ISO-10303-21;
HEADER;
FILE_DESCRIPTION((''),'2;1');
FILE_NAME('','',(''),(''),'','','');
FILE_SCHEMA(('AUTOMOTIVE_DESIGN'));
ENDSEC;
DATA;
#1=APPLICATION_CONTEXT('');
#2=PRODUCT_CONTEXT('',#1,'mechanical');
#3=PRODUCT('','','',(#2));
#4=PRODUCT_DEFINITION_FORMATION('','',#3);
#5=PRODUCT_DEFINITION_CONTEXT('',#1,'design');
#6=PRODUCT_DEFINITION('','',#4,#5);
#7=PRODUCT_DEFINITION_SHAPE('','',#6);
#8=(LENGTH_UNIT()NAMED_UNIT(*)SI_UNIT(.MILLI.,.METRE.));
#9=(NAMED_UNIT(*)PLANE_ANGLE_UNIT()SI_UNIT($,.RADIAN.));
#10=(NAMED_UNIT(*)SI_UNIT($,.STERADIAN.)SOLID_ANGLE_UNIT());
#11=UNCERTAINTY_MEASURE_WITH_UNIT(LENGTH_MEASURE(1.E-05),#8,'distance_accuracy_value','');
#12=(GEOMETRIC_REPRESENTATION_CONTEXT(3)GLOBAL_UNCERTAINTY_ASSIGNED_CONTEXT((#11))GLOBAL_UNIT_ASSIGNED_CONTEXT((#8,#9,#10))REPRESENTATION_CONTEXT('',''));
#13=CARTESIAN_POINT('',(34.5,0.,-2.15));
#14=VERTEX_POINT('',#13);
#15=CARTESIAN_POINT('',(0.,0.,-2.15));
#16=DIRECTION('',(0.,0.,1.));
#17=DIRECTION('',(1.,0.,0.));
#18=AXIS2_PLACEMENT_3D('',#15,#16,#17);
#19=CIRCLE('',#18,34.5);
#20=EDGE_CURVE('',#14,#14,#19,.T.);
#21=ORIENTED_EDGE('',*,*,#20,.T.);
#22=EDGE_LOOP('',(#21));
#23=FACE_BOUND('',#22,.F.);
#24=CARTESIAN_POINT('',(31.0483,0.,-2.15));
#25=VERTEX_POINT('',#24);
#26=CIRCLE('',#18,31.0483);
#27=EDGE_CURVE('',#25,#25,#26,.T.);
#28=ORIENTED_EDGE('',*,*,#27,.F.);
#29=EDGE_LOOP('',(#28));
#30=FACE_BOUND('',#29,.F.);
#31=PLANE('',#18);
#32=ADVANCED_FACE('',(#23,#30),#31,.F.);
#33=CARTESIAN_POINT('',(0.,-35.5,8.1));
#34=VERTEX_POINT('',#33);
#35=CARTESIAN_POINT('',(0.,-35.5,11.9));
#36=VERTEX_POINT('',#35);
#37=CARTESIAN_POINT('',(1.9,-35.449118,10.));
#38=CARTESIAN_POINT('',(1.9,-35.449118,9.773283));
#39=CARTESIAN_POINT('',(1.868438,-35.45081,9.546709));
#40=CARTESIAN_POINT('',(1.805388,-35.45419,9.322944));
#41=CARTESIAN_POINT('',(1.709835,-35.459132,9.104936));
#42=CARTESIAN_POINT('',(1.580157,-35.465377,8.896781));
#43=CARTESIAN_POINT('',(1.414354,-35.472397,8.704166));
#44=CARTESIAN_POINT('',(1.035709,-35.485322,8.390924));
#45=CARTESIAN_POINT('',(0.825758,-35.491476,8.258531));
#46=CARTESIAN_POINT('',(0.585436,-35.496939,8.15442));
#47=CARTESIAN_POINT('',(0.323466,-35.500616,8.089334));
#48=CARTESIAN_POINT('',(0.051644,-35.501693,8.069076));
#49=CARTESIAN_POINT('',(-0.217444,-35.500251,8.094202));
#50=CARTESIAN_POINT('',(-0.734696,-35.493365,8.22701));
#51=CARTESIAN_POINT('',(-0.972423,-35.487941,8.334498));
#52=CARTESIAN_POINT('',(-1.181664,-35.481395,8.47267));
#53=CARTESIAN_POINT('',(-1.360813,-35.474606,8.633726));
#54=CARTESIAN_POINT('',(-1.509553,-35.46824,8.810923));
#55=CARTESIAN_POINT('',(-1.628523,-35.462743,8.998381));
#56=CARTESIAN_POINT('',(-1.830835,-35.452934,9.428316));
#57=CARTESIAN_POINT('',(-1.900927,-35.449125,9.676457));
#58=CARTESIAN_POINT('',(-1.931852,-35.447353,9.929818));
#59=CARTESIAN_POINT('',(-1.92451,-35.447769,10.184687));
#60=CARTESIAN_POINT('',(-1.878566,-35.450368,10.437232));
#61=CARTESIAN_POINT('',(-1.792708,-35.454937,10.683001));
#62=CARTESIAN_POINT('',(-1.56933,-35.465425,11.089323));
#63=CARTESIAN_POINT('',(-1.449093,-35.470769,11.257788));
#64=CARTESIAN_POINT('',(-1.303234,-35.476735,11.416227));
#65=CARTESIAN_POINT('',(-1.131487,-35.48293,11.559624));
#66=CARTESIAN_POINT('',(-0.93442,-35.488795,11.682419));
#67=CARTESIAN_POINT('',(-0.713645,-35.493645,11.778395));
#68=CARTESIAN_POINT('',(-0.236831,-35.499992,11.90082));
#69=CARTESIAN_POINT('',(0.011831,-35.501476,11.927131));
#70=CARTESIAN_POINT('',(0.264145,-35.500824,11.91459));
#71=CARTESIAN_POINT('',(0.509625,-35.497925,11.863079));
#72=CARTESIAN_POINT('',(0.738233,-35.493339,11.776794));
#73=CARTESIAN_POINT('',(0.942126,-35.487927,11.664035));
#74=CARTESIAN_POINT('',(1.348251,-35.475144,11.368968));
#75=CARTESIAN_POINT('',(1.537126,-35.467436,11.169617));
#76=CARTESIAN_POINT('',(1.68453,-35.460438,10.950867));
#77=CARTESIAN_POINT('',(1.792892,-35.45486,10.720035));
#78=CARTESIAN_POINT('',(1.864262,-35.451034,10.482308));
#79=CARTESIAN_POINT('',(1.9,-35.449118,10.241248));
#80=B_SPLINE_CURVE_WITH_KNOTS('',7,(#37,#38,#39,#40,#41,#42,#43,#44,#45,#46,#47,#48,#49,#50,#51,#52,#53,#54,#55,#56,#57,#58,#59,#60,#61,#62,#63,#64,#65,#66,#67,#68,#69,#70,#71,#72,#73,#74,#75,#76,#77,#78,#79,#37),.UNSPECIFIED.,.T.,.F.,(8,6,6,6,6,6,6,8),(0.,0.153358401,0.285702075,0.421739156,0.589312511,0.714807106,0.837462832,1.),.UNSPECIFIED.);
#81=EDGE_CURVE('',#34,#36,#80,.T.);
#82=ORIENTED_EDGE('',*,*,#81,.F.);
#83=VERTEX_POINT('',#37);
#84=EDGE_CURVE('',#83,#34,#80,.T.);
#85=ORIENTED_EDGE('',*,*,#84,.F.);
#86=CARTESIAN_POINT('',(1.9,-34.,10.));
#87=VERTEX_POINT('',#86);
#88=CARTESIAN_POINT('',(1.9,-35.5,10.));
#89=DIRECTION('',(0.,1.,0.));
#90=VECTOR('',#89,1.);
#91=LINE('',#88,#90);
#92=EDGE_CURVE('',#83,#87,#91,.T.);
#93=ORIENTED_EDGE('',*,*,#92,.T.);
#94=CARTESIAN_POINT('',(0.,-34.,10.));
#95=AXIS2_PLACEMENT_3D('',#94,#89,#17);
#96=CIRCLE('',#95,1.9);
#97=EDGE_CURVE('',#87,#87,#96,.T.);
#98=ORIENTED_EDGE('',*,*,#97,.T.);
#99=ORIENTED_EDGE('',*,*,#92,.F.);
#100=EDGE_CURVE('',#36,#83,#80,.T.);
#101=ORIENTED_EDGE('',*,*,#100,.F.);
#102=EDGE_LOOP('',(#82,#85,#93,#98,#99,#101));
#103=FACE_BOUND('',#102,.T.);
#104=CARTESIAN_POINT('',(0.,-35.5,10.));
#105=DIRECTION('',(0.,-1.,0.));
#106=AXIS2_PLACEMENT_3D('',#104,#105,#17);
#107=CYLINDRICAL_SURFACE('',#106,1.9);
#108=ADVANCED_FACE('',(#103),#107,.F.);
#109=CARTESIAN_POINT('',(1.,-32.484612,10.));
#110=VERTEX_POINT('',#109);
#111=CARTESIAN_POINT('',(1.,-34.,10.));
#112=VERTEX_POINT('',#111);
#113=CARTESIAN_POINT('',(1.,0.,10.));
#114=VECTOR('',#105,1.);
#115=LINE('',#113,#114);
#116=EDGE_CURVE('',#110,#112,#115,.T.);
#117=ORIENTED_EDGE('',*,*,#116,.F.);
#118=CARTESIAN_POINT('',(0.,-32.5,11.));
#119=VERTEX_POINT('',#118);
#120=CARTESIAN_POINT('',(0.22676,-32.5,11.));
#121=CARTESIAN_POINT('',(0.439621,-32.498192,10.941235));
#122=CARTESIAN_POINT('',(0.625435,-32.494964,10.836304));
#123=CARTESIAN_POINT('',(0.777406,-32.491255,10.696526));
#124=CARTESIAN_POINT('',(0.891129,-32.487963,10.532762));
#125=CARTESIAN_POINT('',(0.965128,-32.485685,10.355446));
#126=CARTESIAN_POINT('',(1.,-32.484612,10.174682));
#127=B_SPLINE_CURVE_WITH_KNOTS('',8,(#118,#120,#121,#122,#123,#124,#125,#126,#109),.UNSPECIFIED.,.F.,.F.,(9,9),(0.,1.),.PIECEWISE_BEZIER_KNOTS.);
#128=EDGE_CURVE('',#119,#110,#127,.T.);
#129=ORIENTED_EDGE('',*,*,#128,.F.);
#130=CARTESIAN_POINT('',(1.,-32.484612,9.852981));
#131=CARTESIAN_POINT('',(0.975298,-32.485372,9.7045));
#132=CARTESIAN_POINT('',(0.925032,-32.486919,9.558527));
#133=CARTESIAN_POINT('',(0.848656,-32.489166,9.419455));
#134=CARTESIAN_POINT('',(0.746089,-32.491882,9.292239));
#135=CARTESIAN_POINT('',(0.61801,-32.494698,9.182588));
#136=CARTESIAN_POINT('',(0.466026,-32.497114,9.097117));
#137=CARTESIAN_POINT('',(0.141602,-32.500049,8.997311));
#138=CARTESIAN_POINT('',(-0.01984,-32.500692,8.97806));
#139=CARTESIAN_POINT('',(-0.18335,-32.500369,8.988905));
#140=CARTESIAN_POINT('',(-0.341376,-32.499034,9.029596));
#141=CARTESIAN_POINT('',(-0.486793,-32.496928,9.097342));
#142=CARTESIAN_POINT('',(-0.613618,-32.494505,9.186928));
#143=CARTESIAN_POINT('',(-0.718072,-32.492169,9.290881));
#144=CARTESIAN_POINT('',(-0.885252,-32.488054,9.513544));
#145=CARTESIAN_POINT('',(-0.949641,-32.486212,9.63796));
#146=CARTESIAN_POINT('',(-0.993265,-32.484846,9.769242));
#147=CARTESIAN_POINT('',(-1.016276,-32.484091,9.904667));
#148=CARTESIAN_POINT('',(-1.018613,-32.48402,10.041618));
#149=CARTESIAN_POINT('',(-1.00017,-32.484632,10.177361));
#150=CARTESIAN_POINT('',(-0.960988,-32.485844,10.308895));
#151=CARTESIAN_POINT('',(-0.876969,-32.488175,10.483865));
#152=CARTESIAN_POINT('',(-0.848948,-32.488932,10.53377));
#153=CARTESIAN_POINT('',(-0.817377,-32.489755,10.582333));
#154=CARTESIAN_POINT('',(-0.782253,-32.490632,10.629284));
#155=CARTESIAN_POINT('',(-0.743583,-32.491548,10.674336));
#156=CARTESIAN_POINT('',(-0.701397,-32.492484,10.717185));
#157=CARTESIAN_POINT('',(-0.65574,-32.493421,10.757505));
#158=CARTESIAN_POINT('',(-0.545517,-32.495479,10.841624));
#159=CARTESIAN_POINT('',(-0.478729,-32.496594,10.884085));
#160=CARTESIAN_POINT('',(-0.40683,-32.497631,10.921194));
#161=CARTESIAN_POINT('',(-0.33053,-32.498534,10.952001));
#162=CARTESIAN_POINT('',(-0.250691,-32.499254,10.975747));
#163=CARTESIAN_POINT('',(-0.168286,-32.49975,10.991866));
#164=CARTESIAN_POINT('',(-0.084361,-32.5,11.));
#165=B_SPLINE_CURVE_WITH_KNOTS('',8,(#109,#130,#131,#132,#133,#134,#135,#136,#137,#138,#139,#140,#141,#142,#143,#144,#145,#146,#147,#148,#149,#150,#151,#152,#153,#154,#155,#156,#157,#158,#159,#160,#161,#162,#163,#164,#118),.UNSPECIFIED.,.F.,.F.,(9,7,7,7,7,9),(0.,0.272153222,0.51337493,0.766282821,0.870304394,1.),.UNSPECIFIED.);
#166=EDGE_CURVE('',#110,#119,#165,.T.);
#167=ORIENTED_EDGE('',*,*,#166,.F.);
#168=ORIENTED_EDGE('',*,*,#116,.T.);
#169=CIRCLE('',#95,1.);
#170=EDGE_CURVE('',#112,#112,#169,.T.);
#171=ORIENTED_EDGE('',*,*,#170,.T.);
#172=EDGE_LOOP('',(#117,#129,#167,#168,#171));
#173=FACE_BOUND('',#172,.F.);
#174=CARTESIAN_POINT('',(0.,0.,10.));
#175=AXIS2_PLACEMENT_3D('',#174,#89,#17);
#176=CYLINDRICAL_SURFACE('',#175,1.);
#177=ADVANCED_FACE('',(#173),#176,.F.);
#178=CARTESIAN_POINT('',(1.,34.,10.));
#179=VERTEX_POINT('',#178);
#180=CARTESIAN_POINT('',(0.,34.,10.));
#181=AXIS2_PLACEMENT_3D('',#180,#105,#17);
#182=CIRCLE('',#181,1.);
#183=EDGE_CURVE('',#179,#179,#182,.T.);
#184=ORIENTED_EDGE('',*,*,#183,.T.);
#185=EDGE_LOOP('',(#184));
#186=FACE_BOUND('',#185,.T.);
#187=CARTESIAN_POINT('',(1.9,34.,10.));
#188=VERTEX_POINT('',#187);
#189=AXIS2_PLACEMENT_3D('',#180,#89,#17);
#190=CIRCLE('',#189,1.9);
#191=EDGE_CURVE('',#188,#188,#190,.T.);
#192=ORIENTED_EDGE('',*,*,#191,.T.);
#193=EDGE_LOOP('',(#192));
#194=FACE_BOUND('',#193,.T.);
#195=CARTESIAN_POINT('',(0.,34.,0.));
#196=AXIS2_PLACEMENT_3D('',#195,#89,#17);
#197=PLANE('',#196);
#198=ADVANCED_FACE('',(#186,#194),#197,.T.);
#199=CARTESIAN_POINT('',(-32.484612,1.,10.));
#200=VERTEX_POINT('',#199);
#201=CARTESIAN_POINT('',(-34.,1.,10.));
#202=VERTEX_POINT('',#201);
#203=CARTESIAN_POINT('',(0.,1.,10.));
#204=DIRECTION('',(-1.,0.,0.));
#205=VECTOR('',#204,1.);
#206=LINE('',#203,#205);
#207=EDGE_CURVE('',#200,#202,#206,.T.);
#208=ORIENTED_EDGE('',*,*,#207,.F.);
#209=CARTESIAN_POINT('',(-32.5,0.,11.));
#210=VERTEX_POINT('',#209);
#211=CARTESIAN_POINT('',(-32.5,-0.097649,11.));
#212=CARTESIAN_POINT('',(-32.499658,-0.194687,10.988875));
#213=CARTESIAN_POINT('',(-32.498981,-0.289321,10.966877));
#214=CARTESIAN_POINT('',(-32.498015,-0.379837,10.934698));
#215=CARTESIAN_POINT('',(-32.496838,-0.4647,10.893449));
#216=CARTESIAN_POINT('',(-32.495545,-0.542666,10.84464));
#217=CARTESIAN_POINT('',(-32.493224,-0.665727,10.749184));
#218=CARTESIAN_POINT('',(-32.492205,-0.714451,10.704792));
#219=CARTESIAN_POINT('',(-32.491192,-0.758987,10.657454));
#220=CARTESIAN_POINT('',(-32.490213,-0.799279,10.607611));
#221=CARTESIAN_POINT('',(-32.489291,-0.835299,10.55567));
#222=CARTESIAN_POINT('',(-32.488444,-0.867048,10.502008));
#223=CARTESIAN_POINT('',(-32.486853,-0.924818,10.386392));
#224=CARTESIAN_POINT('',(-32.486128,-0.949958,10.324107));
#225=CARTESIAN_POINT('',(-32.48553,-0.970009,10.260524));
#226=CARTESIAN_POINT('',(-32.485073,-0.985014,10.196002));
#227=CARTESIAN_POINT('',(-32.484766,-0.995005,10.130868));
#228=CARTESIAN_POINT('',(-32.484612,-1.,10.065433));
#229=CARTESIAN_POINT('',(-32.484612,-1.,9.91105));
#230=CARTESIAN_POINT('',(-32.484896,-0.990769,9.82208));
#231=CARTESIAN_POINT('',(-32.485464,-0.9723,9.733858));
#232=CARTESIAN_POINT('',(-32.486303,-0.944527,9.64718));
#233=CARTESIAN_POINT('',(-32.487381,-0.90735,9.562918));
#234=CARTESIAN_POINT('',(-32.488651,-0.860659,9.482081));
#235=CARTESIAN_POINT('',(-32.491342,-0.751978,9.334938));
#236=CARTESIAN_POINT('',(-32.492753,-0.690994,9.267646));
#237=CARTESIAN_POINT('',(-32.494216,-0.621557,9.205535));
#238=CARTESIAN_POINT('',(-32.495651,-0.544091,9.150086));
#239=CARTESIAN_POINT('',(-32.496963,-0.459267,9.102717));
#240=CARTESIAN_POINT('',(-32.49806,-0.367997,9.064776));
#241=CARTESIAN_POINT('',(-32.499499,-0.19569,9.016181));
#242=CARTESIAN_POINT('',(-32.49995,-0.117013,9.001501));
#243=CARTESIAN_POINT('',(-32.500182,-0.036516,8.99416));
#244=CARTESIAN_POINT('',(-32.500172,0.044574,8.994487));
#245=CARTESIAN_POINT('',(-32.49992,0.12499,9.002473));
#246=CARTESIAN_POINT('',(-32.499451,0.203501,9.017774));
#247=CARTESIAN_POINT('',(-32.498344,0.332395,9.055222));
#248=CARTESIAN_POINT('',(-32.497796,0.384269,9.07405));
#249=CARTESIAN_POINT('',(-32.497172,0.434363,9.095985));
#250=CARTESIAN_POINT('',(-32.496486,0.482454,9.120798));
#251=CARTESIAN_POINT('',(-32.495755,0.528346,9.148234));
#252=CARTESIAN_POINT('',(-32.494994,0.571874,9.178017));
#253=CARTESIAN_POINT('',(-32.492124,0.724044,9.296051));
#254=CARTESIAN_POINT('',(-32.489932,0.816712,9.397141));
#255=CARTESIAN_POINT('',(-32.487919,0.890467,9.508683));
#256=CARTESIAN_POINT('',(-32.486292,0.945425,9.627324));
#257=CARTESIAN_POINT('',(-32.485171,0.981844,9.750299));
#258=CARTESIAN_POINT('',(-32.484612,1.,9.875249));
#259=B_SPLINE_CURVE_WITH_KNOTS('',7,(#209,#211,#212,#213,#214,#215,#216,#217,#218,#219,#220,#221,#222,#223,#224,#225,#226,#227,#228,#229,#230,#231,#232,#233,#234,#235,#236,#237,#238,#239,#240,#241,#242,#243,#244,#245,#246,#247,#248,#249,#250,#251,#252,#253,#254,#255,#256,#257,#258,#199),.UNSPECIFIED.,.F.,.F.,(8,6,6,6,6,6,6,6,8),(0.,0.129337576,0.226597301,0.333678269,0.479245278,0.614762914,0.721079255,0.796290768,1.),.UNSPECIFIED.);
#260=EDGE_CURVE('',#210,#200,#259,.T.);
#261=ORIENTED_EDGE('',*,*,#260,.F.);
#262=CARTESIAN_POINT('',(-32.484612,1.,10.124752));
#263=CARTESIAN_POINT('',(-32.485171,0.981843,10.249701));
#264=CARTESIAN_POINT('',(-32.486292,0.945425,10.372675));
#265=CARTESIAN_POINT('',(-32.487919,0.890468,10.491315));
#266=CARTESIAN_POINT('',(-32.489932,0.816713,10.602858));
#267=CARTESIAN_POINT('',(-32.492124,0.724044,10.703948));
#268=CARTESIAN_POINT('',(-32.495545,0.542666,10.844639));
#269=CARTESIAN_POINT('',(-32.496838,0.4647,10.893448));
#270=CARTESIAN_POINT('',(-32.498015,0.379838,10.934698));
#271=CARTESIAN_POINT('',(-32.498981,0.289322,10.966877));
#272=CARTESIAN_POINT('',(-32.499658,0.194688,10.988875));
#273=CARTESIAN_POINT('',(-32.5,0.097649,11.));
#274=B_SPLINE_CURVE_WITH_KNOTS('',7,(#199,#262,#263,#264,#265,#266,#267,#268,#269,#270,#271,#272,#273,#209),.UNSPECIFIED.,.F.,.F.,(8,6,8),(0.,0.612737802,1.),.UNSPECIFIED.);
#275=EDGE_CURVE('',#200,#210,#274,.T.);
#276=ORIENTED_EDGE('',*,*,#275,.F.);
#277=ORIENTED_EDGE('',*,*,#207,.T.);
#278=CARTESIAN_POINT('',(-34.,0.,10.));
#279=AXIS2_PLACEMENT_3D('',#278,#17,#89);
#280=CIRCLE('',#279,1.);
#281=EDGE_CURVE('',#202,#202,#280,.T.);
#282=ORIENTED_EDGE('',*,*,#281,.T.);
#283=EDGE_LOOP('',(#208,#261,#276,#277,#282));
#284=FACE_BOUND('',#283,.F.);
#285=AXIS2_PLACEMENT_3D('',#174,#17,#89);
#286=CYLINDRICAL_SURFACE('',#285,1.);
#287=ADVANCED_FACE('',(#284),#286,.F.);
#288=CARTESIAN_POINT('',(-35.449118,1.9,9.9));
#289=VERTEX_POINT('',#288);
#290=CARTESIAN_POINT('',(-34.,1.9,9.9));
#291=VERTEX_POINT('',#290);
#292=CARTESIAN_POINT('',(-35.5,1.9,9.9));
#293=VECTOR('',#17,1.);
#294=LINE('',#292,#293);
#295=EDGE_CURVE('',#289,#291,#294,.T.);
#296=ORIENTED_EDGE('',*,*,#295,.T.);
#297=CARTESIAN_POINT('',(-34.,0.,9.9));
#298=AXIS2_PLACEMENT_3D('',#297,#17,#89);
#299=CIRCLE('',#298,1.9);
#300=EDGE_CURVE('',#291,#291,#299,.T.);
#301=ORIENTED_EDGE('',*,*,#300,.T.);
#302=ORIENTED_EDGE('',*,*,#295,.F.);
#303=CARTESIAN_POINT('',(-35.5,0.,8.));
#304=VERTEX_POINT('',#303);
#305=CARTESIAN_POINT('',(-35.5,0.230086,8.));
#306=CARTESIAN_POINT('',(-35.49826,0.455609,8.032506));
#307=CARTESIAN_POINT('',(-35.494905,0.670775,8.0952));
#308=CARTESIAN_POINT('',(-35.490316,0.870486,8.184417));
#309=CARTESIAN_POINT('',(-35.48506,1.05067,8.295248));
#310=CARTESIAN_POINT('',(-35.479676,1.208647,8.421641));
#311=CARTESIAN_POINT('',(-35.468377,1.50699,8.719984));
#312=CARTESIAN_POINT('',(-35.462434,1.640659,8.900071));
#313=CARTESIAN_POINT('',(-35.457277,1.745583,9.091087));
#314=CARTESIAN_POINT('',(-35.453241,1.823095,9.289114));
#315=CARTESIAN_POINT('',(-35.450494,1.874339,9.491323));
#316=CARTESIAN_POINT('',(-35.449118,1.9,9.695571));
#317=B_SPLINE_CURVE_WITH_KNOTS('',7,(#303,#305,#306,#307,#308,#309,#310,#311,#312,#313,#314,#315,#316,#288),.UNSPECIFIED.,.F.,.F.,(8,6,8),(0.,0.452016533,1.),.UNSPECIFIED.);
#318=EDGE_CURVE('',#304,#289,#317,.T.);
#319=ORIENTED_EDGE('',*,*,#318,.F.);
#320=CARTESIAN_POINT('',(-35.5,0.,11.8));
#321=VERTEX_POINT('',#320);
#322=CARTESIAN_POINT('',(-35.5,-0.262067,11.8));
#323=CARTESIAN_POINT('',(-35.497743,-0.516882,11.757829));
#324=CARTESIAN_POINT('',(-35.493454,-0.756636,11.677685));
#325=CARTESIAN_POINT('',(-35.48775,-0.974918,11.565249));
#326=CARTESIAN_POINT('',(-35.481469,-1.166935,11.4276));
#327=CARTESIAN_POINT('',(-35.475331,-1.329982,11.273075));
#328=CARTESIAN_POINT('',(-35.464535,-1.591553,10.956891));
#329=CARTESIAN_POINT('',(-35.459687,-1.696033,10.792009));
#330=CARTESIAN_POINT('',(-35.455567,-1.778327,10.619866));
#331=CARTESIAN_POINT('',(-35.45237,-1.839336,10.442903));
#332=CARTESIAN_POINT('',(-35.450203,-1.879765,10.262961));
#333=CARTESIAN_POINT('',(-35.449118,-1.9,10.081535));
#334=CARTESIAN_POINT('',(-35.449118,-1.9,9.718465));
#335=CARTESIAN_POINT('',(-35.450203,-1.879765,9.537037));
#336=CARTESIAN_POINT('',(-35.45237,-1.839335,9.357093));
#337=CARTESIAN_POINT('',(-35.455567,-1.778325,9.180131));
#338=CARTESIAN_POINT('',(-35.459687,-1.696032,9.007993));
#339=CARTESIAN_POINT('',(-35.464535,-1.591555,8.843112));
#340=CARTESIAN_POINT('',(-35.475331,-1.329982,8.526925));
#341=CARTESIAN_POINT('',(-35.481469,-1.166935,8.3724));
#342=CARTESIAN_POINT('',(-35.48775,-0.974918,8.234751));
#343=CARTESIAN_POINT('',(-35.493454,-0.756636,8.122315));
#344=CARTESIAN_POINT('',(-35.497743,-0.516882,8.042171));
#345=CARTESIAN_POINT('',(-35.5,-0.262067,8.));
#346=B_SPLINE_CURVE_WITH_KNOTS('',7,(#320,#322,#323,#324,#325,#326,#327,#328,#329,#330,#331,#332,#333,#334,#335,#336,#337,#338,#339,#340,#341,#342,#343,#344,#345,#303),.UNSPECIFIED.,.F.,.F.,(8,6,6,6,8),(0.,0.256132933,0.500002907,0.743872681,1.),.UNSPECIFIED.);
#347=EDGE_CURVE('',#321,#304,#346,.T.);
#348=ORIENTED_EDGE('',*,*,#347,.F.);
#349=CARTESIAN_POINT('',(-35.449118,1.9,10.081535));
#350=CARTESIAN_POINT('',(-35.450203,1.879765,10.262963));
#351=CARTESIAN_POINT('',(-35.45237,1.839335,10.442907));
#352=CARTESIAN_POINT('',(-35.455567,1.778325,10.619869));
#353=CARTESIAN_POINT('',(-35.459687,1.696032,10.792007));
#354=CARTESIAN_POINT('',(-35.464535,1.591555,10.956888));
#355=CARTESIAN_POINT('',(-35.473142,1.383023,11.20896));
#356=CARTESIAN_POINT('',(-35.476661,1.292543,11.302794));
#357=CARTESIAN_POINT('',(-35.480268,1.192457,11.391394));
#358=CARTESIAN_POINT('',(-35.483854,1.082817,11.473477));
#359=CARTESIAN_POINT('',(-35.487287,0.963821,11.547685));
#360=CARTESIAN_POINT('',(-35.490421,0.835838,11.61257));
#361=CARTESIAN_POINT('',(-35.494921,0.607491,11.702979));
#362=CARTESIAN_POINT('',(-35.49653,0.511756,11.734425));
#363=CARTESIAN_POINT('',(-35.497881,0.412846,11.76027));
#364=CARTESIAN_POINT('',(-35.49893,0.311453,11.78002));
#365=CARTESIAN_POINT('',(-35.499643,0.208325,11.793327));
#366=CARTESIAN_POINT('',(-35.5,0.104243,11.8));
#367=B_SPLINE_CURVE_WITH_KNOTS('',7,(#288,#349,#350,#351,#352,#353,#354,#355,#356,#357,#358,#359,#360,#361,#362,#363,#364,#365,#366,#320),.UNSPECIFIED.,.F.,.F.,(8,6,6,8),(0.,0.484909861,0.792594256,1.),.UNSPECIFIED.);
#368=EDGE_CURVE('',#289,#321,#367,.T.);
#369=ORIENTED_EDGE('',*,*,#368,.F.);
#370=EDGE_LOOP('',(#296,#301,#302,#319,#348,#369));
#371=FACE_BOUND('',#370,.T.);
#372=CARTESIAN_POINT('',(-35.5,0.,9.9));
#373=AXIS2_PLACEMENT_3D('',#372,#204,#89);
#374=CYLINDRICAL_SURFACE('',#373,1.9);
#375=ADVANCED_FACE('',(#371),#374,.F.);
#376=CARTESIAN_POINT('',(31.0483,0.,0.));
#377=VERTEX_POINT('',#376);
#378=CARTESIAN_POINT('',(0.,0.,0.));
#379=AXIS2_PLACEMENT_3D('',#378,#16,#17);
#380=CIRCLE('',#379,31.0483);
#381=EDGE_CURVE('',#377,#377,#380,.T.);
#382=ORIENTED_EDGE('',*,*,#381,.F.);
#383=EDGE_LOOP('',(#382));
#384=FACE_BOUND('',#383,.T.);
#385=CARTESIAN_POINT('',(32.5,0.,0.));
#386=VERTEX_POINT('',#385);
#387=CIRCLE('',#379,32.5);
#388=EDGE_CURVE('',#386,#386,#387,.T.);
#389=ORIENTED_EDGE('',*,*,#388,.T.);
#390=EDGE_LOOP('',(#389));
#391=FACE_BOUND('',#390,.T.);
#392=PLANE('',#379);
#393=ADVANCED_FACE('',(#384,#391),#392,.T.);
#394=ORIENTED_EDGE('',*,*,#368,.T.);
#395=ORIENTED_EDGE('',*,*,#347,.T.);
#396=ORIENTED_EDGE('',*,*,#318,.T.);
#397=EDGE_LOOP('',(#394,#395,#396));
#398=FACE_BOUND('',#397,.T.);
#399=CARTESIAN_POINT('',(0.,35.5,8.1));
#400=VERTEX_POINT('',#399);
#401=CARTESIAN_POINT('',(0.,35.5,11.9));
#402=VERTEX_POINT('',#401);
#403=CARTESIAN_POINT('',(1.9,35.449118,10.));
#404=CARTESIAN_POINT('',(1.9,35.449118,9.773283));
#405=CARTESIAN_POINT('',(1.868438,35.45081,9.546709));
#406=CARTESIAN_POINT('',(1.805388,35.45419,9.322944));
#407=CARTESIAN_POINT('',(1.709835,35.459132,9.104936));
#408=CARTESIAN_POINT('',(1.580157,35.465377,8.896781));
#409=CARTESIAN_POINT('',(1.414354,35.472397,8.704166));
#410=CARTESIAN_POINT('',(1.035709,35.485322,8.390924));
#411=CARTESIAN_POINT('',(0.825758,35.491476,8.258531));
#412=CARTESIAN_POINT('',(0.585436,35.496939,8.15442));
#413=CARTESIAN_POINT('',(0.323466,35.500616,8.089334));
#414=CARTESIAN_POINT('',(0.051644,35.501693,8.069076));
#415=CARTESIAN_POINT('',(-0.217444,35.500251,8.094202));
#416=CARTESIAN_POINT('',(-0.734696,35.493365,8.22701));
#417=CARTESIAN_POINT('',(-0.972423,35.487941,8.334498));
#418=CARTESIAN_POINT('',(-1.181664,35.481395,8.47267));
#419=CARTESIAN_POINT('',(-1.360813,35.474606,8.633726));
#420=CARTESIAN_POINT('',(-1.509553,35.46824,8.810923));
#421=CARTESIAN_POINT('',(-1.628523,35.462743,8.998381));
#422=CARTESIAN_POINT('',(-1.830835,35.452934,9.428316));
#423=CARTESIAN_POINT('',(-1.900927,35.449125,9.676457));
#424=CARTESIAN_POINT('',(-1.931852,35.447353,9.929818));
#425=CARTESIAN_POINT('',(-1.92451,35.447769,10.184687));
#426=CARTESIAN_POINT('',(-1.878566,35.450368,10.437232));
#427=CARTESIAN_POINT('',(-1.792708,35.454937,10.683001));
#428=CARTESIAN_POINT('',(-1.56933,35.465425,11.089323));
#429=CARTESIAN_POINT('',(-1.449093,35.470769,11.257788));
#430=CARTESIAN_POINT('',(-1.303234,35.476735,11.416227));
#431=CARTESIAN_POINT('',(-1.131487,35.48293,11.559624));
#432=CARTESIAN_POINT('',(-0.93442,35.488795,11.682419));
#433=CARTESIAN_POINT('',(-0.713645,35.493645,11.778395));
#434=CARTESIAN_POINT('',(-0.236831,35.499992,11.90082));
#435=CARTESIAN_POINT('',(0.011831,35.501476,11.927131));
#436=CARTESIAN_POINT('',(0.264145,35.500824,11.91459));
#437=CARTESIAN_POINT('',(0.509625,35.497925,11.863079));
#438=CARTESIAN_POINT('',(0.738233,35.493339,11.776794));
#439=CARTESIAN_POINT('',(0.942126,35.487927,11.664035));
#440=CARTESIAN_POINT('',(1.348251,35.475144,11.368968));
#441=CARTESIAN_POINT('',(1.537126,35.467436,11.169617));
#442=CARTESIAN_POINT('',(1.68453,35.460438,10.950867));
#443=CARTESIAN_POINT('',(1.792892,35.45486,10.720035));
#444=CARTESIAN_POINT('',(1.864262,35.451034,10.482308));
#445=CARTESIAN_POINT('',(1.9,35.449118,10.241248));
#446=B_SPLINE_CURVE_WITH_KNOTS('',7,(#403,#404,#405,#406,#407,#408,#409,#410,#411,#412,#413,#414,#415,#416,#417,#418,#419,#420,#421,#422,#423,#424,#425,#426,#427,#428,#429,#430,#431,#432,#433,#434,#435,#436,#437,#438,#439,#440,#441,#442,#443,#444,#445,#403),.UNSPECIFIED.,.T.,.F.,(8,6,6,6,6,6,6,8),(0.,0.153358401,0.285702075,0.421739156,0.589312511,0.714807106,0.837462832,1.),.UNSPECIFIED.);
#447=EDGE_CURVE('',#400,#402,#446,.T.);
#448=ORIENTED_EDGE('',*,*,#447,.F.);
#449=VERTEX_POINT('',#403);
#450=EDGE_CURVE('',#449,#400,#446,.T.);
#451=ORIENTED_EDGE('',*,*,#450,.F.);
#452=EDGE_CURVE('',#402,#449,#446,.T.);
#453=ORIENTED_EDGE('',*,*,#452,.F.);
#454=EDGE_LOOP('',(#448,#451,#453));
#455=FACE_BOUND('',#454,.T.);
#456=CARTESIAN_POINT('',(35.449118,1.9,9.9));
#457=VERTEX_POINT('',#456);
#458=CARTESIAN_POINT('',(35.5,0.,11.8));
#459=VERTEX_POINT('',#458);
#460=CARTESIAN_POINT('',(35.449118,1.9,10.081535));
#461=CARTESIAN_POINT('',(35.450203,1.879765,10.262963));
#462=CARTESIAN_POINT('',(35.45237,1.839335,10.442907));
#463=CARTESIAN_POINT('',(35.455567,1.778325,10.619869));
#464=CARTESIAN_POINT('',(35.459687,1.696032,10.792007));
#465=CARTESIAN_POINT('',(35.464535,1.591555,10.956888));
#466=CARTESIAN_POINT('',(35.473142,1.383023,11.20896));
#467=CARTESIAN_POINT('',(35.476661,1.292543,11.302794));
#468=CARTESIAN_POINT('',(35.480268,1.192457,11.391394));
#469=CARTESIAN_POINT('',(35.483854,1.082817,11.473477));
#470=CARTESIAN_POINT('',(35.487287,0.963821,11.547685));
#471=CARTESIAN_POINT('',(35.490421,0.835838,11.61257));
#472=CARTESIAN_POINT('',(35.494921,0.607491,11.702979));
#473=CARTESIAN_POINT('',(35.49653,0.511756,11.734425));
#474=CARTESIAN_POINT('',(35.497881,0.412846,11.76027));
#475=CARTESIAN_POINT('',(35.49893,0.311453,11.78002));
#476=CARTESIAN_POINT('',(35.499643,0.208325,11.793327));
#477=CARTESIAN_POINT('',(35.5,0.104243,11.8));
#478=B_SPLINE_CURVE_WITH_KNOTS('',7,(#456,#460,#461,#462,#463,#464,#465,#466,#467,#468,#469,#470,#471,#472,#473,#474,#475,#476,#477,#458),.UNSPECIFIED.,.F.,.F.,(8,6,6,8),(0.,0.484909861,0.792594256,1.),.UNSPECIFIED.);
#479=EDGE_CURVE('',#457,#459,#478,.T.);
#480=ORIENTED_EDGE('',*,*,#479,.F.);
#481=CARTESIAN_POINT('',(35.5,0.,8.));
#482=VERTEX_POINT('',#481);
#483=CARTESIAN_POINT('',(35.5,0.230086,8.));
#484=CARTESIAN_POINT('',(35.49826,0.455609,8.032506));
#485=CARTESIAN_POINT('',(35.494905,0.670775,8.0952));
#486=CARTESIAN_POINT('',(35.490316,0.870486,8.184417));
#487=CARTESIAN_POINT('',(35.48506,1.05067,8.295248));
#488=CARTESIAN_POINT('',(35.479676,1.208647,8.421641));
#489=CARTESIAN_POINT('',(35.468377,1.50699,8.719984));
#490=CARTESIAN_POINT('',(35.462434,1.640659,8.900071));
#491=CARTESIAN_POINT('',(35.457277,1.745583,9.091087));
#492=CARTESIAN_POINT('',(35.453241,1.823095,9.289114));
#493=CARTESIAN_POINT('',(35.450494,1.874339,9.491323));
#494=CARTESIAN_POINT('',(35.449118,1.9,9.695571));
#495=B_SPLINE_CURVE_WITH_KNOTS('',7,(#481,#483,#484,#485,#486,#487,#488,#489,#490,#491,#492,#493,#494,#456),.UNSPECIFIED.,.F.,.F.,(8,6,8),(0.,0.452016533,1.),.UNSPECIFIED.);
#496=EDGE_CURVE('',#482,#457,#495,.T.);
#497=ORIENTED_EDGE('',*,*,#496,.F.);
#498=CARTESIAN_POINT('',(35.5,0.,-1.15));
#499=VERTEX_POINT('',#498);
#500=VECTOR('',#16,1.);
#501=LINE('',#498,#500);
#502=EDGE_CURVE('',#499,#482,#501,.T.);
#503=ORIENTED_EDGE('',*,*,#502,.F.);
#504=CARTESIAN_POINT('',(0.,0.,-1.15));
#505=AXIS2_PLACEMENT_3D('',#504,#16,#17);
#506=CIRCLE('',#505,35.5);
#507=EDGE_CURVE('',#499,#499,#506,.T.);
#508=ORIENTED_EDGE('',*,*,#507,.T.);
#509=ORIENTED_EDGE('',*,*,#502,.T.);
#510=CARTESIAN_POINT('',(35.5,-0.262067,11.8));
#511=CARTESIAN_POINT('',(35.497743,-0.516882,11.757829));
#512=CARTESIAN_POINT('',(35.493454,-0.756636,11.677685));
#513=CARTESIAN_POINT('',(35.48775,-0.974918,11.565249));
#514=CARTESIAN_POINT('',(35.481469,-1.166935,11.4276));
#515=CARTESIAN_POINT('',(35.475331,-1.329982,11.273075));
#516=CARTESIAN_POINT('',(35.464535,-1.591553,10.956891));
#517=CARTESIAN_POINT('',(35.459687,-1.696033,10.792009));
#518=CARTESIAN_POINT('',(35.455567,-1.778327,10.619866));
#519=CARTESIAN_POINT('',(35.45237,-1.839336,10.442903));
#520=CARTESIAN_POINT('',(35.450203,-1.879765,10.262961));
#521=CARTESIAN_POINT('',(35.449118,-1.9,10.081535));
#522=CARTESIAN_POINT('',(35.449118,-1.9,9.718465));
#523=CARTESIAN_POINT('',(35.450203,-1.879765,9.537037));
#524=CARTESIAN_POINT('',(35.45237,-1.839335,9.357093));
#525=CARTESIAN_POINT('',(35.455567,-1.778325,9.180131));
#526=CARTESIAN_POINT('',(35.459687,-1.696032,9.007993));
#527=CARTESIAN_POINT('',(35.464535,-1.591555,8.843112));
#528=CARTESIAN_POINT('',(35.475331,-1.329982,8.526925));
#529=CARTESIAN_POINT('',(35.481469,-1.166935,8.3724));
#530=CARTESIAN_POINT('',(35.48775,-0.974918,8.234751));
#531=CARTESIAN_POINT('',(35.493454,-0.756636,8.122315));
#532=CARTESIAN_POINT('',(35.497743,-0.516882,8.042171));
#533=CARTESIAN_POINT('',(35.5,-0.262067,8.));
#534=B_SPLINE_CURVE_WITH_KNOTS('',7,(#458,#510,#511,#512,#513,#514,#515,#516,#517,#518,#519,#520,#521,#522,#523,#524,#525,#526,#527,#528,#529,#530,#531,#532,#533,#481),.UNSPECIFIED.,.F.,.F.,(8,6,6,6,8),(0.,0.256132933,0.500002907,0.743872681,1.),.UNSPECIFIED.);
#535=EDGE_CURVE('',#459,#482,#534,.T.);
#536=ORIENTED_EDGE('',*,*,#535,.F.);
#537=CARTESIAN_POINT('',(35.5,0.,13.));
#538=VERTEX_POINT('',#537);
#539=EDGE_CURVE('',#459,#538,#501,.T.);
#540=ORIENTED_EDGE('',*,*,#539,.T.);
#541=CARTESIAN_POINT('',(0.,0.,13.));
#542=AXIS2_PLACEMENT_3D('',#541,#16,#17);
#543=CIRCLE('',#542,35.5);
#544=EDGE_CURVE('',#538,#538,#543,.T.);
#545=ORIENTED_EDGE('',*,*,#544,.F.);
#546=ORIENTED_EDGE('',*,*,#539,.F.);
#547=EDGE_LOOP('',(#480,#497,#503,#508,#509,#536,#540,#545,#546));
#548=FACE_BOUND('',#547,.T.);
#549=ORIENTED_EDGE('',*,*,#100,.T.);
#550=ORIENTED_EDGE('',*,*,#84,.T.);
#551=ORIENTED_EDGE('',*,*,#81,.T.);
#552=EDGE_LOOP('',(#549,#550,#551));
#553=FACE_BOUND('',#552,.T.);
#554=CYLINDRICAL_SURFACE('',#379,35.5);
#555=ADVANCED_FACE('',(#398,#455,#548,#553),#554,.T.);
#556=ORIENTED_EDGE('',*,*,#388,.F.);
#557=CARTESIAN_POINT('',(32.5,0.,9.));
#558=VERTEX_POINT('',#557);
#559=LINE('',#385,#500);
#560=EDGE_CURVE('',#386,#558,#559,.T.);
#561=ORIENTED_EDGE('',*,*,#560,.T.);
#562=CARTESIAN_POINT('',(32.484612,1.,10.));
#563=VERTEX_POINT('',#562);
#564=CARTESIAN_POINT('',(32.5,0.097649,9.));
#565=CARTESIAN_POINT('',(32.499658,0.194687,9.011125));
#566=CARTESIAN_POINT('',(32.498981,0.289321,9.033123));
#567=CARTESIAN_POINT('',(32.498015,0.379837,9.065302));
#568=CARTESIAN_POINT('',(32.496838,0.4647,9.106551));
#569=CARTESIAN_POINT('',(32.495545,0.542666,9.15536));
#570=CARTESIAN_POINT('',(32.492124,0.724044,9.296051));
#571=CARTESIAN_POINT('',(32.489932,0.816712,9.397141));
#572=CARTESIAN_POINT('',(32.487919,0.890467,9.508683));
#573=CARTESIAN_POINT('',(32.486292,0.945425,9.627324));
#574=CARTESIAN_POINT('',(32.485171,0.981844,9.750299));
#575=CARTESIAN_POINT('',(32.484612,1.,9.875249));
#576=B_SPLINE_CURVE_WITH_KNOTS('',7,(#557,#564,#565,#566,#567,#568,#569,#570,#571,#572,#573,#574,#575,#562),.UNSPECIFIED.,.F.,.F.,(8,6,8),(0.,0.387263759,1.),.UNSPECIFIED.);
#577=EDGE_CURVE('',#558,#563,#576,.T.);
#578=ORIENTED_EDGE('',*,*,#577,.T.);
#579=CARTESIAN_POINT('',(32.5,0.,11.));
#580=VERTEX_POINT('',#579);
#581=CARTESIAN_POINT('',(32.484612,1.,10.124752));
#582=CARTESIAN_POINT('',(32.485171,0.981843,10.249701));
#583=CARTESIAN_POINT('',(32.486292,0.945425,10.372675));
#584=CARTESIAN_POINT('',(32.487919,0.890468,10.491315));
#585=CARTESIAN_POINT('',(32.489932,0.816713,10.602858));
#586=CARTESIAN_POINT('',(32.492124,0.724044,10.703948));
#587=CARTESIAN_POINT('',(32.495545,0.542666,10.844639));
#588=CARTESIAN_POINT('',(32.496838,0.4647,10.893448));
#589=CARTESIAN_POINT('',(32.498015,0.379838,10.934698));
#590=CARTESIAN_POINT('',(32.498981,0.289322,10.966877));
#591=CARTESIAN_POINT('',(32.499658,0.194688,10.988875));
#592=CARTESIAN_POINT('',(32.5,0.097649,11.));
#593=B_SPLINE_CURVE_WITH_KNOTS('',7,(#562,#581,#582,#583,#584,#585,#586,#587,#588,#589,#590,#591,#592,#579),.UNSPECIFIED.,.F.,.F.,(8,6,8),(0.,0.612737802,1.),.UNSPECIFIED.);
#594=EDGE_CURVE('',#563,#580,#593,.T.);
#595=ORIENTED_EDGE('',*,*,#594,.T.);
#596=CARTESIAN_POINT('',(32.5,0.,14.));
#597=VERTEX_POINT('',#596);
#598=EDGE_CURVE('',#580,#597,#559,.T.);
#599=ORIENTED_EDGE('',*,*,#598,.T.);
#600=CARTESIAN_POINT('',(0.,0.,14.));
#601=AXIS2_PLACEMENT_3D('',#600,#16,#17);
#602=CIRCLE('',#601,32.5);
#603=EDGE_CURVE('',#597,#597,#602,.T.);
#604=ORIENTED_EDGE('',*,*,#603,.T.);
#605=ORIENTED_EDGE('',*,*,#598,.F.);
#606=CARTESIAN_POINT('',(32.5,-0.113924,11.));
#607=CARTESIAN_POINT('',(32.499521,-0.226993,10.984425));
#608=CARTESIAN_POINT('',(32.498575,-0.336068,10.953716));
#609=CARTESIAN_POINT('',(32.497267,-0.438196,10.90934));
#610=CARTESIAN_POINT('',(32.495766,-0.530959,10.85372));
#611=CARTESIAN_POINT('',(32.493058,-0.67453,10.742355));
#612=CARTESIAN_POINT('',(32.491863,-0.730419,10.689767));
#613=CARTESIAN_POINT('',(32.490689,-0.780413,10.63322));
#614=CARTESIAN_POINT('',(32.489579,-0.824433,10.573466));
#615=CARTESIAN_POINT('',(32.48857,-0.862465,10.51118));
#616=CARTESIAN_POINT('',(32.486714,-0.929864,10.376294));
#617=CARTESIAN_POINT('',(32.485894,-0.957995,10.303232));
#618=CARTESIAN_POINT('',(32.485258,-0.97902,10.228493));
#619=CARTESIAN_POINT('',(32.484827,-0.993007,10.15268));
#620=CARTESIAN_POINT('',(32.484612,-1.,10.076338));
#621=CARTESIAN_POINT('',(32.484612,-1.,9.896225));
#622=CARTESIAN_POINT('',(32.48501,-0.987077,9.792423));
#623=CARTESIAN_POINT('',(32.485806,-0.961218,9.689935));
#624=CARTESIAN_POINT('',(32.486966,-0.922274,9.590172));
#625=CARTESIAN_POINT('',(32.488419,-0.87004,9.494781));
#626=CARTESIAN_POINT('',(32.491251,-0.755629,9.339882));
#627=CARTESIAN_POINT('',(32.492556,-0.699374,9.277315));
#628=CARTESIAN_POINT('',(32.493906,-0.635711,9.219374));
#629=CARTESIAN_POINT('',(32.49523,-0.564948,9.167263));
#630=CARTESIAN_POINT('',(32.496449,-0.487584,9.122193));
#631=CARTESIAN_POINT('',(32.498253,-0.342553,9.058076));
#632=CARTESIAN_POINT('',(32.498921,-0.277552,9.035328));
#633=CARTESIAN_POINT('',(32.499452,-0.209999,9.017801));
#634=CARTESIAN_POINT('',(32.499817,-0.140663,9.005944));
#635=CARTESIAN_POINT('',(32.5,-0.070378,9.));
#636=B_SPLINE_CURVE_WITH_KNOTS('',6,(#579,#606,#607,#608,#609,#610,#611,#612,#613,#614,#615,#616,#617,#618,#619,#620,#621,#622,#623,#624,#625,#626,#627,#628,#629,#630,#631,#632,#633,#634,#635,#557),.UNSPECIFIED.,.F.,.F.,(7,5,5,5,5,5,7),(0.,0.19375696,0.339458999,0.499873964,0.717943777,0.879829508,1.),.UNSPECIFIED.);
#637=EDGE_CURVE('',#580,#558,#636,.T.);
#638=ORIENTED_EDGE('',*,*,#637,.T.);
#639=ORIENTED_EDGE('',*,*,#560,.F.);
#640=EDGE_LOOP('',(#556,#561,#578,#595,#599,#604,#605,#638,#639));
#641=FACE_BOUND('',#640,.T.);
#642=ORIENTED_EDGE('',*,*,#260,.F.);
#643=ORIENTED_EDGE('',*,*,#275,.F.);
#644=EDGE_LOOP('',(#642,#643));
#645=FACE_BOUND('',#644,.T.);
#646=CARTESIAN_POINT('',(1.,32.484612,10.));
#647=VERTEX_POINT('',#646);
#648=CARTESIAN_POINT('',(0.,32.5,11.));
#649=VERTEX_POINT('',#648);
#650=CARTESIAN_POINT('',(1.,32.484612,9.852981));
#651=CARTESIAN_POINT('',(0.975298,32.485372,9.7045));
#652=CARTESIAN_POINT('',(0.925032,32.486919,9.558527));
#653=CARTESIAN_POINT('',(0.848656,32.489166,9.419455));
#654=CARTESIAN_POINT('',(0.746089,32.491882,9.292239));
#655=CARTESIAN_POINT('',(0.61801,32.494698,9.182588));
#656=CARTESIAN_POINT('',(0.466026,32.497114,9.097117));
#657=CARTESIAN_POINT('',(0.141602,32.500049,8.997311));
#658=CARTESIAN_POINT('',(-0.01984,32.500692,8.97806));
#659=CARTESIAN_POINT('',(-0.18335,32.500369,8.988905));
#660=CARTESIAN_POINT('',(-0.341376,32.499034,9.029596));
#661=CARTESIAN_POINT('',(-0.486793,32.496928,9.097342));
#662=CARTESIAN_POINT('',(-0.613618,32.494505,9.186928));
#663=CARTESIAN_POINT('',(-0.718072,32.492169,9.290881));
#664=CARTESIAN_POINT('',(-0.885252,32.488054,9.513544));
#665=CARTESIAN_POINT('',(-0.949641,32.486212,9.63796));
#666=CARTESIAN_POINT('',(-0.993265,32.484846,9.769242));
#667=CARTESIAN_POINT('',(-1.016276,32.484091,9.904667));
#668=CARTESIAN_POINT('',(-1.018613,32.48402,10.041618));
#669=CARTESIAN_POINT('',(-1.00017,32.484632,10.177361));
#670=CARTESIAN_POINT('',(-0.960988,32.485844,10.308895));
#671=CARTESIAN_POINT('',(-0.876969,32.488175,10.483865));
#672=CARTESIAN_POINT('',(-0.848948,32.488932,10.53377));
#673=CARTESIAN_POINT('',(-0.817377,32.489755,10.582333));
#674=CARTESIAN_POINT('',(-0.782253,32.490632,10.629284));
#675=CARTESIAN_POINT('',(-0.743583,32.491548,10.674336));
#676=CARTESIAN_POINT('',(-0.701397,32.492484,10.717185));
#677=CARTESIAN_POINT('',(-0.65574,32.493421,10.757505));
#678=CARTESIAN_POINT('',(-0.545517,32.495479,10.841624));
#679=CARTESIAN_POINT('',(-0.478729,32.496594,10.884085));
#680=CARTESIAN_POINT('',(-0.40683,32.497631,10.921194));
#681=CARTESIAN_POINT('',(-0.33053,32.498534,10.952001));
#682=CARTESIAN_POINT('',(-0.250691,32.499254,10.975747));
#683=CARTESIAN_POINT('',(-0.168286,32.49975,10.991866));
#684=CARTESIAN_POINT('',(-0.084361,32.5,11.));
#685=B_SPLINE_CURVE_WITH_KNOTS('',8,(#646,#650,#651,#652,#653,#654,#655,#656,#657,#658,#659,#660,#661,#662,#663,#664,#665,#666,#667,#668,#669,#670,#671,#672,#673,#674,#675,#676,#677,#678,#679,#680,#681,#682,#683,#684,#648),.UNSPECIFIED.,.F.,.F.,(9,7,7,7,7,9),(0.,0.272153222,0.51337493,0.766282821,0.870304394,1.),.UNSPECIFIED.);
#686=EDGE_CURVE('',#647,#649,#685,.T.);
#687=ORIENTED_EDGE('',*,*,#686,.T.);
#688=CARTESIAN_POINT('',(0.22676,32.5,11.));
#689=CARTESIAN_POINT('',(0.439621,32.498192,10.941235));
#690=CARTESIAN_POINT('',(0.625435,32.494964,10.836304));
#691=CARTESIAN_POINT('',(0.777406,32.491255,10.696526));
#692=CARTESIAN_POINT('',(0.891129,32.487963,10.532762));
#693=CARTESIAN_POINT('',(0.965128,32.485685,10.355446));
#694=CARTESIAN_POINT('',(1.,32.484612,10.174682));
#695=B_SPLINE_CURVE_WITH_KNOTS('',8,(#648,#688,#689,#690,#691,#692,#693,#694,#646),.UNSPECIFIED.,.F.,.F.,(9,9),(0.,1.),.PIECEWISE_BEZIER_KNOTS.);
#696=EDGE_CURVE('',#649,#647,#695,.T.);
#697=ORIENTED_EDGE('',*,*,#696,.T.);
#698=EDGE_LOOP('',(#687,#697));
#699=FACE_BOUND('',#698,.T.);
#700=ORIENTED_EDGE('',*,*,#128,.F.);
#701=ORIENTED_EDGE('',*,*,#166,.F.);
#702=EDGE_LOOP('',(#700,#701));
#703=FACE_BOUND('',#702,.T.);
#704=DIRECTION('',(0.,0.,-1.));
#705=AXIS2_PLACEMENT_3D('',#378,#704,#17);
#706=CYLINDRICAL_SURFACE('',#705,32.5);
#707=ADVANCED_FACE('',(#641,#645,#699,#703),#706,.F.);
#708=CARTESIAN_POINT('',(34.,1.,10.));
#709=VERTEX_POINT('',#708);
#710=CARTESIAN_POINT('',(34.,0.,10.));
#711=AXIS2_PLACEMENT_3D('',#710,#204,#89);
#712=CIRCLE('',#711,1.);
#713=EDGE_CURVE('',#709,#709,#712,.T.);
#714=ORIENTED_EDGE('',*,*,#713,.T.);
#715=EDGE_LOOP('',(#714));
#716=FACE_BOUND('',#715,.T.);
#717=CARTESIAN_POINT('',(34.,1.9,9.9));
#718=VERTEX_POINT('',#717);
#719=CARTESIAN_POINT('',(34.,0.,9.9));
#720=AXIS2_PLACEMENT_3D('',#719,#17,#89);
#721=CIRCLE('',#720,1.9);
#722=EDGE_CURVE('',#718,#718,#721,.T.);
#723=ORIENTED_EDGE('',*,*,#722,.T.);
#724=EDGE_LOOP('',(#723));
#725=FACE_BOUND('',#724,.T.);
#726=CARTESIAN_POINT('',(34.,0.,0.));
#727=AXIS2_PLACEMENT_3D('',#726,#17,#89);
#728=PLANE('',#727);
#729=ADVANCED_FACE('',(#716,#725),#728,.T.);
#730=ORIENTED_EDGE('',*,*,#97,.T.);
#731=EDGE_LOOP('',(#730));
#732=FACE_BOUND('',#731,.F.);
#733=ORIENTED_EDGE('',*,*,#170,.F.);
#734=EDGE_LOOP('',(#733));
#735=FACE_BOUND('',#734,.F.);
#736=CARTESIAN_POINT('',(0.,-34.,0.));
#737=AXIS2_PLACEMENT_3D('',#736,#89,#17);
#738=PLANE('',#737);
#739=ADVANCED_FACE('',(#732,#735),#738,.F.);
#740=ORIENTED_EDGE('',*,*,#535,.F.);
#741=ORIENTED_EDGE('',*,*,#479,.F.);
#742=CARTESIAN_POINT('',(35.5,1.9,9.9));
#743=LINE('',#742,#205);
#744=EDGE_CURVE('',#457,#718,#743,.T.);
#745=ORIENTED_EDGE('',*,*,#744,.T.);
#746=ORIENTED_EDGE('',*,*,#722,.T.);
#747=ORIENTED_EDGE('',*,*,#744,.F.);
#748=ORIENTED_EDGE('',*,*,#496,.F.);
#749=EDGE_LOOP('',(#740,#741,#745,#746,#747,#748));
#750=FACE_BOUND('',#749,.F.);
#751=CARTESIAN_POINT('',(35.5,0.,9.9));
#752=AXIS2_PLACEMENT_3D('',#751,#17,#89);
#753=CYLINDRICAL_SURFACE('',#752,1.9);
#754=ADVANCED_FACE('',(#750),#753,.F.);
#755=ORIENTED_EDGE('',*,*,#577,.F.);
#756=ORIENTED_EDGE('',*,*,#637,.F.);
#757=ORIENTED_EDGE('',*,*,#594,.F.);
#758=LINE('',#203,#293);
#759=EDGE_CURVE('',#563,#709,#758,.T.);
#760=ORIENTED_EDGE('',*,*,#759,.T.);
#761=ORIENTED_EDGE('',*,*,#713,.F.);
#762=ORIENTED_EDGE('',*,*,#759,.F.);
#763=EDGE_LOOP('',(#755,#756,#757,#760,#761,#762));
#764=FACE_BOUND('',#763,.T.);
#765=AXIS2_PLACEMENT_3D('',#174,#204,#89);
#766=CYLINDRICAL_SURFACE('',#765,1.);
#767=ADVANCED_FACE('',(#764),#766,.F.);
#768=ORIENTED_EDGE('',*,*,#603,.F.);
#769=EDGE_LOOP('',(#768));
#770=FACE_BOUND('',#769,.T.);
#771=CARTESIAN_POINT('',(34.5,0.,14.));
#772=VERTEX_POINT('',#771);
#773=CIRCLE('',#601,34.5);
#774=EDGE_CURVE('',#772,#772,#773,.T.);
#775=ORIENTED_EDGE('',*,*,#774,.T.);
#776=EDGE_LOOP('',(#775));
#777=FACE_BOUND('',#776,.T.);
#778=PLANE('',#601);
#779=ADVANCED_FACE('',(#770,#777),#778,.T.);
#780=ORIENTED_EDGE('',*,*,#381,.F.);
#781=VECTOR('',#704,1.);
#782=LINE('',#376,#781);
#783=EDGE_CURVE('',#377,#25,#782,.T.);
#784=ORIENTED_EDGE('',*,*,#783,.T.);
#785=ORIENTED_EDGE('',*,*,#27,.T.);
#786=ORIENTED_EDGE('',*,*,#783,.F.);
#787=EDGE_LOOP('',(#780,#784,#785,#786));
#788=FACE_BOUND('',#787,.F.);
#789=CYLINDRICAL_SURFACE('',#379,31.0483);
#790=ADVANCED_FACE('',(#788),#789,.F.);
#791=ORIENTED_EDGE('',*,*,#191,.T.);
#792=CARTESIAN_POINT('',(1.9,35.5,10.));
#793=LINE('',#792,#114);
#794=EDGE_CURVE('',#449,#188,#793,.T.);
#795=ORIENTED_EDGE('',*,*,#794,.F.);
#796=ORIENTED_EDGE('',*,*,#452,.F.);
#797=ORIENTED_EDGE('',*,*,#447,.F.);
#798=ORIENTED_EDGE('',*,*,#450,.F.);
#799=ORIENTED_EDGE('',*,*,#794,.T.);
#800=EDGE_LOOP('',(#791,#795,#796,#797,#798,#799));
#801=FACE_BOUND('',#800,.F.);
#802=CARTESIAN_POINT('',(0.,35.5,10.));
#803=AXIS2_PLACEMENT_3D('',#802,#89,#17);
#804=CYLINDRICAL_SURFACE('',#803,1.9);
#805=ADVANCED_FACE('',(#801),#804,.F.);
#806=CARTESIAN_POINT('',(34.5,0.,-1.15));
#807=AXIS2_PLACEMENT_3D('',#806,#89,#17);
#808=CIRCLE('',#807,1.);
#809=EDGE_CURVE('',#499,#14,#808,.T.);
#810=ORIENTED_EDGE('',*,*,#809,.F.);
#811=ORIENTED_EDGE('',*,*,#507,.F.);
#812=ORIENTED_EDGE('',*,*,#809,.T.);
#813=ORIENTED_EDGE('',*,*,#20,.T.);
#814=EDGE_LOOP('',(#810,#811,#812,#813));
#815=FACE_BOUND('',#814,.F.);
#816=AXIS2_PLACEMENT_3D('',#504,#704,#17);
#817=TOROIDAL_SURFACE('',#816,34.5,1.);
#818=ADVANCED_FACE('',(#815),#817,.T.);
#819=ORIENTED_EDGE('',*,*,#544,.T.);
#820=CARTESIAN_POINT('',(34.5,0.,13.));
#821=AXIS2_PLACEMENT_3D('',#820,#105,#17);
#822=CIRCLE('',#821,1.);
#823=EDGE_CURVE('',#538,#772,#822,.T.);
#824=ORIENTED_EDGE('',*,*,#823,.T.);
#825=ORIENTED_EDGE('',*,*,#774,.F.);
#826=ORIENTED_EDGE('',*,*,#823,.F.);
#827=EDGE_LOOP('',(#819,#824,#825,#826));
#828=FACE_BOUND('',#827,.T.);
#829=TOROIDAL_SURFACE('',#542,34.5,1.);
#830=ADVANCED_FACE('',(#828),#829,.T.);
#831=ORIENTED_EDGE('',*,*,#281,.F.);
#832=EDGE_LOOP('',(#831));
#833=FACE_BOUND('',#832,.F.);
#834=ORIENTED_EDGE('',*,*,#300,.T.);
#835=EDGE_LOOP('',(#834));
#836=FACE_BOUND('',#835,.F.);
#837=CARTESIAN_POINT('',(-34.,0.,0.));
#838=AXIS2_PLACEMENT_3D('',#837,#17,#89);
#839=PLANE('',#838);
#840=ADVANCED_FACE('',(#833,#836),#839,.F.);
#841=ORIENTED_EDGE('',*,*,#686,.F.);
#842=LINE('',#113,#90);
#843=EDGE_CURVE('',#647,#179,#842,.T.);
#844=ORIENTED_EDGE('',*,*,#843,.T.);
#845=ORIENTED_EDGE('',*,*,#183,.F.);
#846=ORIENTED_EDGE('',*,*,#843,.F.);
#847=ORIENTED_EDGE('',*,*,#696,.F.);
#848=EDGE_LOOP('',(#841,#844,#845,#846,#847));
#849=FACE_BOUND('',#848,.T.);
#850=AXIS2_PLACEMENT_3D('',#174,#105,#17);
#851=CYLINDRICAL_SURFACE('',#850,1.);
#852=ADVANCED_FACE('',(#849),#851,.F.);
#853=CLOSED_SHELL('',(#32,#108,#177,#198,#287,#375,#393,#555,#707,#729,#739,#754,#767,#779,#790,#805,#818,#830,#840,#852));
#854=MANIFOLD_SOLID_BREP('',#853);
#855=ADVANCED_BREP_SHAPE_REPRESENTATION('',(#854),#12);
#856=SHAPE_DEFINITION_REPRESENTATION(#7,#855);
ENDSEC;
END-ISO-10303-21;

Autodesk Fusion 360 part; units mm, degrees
sketch "Sketch1" plane through (0, 0, 0) normal (0, 0, 1) x (1, 0, 0)
  circle A0 centre (0, 0) radius 35.5
  circle A1 centre (0, 0) radius 32.5
  dimension "d2" = 71
  dimension "d3" = 65
extrude "Extrude1" add sketch "Sketch1" along normal blind 14
sketch "Sketch2" plane through (0, 0, 0) normal (0, 0, 1) x (1, 0, 0)
  circle A0 centre (0, 0) radius 31
  dimension "d8" = 62
sketch "Sketch3" plane through (0, 0, 0) normal (0, 0, 1) x (1, 0, 0)
  circle A0 centre (0, 0) radius 32.5
  circle A1 centre (0, 0) radius 31.0483
extrude "Extrude3" add sketch "Sketch3" sketch "Sketch1" against normal blind 2.15 of sketch 2
fillet "Fillet1" radius 1 1 edges at (-33.0976, 12.8373, -2.15)
sketch "Sketch4" plane through (0, 0, 0) normal (0, 1, 0) x (1, 0, 0)
  line L0 (-35.5, -14) -> (35.5, -14)
  line L1 (0, -14) -> (0, -11)
  circle A0 centre (0, -10) radius 1
  dimension "d13" = 3
  dimension "d14" = 2
extrude "Extrude4" cut sketch "Sketch4" along normal through all and the other way through all
sketch "Sketch5" plane through (0, 0, 0) normal (1, 0, 0) x (0, 1, 0)
  line L0 (0, 14) -> (0, 11)
  circle A0 centre (0, 10) radius 1
  point P0 (0, 14)
  dimension "d16" = 3
  dimension "d17" = 2
extrude "Extrude5" cut sketch "Sketch5" along normal through all and the other way through all
ref_plane "WorkPlane1" through (0, 35.5, 0) normal (0, 1, 0) x (0, 0, 1)
sketch "Sketch6" plane through (0, 35.5, 0) normal (0, 1, 0) x (1, 0, 0)
  circle A0 centre (0, -10) radius 1.9
  dimension "d24" = 3.8
extrude "Extrude6" cut sketch "Sketch6" against normal blind 1.5
ref_plane "WorkPlane2" through (0, -35.5, 0) normal (0, 1, 0) x (0, 0, 1)
sketch "Sketch7" plane through (0, -35.5, 0) normal (0, 1, 0) x (1, 0, 0)
  circle A0 centre (0, -10) radius 1.9
  circle A1 centre (0, -10) radius 1
  dimension "d28" = 3.8
extrude "Extrude7" cut sketch "Sketch7" along normal blind 1.5
ref_plane "WorkPlane3" through (-35.5, 0, 0) normal (1, 0, 0) x (0, 1, 0)
sketch "Sketch8" plane through (-35.5, 0, 0) normal (1, 0, 0) x (0, 1, 0)
  circle A0 centre (0, 9.9) radius 1.9
  dimension "d32" = 3.8
extrude "Extrude8" cut sketch "Sketch8" along normal blind 1.5
ref_plane "WorkPlane4" through (35.5, 0, 0) normal (1, 0, 0) x (0, 1, 0)
sketch "Sketch9" plane through (35.5, 0, 0) normal (1, 0, 0) x (0, 1, 0)
  circle A0 centre (0, 9.9) radius 1.9
  circle A1 centre (0, 9.9) radius 1.9
  dimension "d36" = 3.8
extrude "Extrude9" cut sketch "Sketch9" against normal blind 1.5
fillet "Fillet3" radius 1 1 edges at (-33.0976, -12.8373, 14)
